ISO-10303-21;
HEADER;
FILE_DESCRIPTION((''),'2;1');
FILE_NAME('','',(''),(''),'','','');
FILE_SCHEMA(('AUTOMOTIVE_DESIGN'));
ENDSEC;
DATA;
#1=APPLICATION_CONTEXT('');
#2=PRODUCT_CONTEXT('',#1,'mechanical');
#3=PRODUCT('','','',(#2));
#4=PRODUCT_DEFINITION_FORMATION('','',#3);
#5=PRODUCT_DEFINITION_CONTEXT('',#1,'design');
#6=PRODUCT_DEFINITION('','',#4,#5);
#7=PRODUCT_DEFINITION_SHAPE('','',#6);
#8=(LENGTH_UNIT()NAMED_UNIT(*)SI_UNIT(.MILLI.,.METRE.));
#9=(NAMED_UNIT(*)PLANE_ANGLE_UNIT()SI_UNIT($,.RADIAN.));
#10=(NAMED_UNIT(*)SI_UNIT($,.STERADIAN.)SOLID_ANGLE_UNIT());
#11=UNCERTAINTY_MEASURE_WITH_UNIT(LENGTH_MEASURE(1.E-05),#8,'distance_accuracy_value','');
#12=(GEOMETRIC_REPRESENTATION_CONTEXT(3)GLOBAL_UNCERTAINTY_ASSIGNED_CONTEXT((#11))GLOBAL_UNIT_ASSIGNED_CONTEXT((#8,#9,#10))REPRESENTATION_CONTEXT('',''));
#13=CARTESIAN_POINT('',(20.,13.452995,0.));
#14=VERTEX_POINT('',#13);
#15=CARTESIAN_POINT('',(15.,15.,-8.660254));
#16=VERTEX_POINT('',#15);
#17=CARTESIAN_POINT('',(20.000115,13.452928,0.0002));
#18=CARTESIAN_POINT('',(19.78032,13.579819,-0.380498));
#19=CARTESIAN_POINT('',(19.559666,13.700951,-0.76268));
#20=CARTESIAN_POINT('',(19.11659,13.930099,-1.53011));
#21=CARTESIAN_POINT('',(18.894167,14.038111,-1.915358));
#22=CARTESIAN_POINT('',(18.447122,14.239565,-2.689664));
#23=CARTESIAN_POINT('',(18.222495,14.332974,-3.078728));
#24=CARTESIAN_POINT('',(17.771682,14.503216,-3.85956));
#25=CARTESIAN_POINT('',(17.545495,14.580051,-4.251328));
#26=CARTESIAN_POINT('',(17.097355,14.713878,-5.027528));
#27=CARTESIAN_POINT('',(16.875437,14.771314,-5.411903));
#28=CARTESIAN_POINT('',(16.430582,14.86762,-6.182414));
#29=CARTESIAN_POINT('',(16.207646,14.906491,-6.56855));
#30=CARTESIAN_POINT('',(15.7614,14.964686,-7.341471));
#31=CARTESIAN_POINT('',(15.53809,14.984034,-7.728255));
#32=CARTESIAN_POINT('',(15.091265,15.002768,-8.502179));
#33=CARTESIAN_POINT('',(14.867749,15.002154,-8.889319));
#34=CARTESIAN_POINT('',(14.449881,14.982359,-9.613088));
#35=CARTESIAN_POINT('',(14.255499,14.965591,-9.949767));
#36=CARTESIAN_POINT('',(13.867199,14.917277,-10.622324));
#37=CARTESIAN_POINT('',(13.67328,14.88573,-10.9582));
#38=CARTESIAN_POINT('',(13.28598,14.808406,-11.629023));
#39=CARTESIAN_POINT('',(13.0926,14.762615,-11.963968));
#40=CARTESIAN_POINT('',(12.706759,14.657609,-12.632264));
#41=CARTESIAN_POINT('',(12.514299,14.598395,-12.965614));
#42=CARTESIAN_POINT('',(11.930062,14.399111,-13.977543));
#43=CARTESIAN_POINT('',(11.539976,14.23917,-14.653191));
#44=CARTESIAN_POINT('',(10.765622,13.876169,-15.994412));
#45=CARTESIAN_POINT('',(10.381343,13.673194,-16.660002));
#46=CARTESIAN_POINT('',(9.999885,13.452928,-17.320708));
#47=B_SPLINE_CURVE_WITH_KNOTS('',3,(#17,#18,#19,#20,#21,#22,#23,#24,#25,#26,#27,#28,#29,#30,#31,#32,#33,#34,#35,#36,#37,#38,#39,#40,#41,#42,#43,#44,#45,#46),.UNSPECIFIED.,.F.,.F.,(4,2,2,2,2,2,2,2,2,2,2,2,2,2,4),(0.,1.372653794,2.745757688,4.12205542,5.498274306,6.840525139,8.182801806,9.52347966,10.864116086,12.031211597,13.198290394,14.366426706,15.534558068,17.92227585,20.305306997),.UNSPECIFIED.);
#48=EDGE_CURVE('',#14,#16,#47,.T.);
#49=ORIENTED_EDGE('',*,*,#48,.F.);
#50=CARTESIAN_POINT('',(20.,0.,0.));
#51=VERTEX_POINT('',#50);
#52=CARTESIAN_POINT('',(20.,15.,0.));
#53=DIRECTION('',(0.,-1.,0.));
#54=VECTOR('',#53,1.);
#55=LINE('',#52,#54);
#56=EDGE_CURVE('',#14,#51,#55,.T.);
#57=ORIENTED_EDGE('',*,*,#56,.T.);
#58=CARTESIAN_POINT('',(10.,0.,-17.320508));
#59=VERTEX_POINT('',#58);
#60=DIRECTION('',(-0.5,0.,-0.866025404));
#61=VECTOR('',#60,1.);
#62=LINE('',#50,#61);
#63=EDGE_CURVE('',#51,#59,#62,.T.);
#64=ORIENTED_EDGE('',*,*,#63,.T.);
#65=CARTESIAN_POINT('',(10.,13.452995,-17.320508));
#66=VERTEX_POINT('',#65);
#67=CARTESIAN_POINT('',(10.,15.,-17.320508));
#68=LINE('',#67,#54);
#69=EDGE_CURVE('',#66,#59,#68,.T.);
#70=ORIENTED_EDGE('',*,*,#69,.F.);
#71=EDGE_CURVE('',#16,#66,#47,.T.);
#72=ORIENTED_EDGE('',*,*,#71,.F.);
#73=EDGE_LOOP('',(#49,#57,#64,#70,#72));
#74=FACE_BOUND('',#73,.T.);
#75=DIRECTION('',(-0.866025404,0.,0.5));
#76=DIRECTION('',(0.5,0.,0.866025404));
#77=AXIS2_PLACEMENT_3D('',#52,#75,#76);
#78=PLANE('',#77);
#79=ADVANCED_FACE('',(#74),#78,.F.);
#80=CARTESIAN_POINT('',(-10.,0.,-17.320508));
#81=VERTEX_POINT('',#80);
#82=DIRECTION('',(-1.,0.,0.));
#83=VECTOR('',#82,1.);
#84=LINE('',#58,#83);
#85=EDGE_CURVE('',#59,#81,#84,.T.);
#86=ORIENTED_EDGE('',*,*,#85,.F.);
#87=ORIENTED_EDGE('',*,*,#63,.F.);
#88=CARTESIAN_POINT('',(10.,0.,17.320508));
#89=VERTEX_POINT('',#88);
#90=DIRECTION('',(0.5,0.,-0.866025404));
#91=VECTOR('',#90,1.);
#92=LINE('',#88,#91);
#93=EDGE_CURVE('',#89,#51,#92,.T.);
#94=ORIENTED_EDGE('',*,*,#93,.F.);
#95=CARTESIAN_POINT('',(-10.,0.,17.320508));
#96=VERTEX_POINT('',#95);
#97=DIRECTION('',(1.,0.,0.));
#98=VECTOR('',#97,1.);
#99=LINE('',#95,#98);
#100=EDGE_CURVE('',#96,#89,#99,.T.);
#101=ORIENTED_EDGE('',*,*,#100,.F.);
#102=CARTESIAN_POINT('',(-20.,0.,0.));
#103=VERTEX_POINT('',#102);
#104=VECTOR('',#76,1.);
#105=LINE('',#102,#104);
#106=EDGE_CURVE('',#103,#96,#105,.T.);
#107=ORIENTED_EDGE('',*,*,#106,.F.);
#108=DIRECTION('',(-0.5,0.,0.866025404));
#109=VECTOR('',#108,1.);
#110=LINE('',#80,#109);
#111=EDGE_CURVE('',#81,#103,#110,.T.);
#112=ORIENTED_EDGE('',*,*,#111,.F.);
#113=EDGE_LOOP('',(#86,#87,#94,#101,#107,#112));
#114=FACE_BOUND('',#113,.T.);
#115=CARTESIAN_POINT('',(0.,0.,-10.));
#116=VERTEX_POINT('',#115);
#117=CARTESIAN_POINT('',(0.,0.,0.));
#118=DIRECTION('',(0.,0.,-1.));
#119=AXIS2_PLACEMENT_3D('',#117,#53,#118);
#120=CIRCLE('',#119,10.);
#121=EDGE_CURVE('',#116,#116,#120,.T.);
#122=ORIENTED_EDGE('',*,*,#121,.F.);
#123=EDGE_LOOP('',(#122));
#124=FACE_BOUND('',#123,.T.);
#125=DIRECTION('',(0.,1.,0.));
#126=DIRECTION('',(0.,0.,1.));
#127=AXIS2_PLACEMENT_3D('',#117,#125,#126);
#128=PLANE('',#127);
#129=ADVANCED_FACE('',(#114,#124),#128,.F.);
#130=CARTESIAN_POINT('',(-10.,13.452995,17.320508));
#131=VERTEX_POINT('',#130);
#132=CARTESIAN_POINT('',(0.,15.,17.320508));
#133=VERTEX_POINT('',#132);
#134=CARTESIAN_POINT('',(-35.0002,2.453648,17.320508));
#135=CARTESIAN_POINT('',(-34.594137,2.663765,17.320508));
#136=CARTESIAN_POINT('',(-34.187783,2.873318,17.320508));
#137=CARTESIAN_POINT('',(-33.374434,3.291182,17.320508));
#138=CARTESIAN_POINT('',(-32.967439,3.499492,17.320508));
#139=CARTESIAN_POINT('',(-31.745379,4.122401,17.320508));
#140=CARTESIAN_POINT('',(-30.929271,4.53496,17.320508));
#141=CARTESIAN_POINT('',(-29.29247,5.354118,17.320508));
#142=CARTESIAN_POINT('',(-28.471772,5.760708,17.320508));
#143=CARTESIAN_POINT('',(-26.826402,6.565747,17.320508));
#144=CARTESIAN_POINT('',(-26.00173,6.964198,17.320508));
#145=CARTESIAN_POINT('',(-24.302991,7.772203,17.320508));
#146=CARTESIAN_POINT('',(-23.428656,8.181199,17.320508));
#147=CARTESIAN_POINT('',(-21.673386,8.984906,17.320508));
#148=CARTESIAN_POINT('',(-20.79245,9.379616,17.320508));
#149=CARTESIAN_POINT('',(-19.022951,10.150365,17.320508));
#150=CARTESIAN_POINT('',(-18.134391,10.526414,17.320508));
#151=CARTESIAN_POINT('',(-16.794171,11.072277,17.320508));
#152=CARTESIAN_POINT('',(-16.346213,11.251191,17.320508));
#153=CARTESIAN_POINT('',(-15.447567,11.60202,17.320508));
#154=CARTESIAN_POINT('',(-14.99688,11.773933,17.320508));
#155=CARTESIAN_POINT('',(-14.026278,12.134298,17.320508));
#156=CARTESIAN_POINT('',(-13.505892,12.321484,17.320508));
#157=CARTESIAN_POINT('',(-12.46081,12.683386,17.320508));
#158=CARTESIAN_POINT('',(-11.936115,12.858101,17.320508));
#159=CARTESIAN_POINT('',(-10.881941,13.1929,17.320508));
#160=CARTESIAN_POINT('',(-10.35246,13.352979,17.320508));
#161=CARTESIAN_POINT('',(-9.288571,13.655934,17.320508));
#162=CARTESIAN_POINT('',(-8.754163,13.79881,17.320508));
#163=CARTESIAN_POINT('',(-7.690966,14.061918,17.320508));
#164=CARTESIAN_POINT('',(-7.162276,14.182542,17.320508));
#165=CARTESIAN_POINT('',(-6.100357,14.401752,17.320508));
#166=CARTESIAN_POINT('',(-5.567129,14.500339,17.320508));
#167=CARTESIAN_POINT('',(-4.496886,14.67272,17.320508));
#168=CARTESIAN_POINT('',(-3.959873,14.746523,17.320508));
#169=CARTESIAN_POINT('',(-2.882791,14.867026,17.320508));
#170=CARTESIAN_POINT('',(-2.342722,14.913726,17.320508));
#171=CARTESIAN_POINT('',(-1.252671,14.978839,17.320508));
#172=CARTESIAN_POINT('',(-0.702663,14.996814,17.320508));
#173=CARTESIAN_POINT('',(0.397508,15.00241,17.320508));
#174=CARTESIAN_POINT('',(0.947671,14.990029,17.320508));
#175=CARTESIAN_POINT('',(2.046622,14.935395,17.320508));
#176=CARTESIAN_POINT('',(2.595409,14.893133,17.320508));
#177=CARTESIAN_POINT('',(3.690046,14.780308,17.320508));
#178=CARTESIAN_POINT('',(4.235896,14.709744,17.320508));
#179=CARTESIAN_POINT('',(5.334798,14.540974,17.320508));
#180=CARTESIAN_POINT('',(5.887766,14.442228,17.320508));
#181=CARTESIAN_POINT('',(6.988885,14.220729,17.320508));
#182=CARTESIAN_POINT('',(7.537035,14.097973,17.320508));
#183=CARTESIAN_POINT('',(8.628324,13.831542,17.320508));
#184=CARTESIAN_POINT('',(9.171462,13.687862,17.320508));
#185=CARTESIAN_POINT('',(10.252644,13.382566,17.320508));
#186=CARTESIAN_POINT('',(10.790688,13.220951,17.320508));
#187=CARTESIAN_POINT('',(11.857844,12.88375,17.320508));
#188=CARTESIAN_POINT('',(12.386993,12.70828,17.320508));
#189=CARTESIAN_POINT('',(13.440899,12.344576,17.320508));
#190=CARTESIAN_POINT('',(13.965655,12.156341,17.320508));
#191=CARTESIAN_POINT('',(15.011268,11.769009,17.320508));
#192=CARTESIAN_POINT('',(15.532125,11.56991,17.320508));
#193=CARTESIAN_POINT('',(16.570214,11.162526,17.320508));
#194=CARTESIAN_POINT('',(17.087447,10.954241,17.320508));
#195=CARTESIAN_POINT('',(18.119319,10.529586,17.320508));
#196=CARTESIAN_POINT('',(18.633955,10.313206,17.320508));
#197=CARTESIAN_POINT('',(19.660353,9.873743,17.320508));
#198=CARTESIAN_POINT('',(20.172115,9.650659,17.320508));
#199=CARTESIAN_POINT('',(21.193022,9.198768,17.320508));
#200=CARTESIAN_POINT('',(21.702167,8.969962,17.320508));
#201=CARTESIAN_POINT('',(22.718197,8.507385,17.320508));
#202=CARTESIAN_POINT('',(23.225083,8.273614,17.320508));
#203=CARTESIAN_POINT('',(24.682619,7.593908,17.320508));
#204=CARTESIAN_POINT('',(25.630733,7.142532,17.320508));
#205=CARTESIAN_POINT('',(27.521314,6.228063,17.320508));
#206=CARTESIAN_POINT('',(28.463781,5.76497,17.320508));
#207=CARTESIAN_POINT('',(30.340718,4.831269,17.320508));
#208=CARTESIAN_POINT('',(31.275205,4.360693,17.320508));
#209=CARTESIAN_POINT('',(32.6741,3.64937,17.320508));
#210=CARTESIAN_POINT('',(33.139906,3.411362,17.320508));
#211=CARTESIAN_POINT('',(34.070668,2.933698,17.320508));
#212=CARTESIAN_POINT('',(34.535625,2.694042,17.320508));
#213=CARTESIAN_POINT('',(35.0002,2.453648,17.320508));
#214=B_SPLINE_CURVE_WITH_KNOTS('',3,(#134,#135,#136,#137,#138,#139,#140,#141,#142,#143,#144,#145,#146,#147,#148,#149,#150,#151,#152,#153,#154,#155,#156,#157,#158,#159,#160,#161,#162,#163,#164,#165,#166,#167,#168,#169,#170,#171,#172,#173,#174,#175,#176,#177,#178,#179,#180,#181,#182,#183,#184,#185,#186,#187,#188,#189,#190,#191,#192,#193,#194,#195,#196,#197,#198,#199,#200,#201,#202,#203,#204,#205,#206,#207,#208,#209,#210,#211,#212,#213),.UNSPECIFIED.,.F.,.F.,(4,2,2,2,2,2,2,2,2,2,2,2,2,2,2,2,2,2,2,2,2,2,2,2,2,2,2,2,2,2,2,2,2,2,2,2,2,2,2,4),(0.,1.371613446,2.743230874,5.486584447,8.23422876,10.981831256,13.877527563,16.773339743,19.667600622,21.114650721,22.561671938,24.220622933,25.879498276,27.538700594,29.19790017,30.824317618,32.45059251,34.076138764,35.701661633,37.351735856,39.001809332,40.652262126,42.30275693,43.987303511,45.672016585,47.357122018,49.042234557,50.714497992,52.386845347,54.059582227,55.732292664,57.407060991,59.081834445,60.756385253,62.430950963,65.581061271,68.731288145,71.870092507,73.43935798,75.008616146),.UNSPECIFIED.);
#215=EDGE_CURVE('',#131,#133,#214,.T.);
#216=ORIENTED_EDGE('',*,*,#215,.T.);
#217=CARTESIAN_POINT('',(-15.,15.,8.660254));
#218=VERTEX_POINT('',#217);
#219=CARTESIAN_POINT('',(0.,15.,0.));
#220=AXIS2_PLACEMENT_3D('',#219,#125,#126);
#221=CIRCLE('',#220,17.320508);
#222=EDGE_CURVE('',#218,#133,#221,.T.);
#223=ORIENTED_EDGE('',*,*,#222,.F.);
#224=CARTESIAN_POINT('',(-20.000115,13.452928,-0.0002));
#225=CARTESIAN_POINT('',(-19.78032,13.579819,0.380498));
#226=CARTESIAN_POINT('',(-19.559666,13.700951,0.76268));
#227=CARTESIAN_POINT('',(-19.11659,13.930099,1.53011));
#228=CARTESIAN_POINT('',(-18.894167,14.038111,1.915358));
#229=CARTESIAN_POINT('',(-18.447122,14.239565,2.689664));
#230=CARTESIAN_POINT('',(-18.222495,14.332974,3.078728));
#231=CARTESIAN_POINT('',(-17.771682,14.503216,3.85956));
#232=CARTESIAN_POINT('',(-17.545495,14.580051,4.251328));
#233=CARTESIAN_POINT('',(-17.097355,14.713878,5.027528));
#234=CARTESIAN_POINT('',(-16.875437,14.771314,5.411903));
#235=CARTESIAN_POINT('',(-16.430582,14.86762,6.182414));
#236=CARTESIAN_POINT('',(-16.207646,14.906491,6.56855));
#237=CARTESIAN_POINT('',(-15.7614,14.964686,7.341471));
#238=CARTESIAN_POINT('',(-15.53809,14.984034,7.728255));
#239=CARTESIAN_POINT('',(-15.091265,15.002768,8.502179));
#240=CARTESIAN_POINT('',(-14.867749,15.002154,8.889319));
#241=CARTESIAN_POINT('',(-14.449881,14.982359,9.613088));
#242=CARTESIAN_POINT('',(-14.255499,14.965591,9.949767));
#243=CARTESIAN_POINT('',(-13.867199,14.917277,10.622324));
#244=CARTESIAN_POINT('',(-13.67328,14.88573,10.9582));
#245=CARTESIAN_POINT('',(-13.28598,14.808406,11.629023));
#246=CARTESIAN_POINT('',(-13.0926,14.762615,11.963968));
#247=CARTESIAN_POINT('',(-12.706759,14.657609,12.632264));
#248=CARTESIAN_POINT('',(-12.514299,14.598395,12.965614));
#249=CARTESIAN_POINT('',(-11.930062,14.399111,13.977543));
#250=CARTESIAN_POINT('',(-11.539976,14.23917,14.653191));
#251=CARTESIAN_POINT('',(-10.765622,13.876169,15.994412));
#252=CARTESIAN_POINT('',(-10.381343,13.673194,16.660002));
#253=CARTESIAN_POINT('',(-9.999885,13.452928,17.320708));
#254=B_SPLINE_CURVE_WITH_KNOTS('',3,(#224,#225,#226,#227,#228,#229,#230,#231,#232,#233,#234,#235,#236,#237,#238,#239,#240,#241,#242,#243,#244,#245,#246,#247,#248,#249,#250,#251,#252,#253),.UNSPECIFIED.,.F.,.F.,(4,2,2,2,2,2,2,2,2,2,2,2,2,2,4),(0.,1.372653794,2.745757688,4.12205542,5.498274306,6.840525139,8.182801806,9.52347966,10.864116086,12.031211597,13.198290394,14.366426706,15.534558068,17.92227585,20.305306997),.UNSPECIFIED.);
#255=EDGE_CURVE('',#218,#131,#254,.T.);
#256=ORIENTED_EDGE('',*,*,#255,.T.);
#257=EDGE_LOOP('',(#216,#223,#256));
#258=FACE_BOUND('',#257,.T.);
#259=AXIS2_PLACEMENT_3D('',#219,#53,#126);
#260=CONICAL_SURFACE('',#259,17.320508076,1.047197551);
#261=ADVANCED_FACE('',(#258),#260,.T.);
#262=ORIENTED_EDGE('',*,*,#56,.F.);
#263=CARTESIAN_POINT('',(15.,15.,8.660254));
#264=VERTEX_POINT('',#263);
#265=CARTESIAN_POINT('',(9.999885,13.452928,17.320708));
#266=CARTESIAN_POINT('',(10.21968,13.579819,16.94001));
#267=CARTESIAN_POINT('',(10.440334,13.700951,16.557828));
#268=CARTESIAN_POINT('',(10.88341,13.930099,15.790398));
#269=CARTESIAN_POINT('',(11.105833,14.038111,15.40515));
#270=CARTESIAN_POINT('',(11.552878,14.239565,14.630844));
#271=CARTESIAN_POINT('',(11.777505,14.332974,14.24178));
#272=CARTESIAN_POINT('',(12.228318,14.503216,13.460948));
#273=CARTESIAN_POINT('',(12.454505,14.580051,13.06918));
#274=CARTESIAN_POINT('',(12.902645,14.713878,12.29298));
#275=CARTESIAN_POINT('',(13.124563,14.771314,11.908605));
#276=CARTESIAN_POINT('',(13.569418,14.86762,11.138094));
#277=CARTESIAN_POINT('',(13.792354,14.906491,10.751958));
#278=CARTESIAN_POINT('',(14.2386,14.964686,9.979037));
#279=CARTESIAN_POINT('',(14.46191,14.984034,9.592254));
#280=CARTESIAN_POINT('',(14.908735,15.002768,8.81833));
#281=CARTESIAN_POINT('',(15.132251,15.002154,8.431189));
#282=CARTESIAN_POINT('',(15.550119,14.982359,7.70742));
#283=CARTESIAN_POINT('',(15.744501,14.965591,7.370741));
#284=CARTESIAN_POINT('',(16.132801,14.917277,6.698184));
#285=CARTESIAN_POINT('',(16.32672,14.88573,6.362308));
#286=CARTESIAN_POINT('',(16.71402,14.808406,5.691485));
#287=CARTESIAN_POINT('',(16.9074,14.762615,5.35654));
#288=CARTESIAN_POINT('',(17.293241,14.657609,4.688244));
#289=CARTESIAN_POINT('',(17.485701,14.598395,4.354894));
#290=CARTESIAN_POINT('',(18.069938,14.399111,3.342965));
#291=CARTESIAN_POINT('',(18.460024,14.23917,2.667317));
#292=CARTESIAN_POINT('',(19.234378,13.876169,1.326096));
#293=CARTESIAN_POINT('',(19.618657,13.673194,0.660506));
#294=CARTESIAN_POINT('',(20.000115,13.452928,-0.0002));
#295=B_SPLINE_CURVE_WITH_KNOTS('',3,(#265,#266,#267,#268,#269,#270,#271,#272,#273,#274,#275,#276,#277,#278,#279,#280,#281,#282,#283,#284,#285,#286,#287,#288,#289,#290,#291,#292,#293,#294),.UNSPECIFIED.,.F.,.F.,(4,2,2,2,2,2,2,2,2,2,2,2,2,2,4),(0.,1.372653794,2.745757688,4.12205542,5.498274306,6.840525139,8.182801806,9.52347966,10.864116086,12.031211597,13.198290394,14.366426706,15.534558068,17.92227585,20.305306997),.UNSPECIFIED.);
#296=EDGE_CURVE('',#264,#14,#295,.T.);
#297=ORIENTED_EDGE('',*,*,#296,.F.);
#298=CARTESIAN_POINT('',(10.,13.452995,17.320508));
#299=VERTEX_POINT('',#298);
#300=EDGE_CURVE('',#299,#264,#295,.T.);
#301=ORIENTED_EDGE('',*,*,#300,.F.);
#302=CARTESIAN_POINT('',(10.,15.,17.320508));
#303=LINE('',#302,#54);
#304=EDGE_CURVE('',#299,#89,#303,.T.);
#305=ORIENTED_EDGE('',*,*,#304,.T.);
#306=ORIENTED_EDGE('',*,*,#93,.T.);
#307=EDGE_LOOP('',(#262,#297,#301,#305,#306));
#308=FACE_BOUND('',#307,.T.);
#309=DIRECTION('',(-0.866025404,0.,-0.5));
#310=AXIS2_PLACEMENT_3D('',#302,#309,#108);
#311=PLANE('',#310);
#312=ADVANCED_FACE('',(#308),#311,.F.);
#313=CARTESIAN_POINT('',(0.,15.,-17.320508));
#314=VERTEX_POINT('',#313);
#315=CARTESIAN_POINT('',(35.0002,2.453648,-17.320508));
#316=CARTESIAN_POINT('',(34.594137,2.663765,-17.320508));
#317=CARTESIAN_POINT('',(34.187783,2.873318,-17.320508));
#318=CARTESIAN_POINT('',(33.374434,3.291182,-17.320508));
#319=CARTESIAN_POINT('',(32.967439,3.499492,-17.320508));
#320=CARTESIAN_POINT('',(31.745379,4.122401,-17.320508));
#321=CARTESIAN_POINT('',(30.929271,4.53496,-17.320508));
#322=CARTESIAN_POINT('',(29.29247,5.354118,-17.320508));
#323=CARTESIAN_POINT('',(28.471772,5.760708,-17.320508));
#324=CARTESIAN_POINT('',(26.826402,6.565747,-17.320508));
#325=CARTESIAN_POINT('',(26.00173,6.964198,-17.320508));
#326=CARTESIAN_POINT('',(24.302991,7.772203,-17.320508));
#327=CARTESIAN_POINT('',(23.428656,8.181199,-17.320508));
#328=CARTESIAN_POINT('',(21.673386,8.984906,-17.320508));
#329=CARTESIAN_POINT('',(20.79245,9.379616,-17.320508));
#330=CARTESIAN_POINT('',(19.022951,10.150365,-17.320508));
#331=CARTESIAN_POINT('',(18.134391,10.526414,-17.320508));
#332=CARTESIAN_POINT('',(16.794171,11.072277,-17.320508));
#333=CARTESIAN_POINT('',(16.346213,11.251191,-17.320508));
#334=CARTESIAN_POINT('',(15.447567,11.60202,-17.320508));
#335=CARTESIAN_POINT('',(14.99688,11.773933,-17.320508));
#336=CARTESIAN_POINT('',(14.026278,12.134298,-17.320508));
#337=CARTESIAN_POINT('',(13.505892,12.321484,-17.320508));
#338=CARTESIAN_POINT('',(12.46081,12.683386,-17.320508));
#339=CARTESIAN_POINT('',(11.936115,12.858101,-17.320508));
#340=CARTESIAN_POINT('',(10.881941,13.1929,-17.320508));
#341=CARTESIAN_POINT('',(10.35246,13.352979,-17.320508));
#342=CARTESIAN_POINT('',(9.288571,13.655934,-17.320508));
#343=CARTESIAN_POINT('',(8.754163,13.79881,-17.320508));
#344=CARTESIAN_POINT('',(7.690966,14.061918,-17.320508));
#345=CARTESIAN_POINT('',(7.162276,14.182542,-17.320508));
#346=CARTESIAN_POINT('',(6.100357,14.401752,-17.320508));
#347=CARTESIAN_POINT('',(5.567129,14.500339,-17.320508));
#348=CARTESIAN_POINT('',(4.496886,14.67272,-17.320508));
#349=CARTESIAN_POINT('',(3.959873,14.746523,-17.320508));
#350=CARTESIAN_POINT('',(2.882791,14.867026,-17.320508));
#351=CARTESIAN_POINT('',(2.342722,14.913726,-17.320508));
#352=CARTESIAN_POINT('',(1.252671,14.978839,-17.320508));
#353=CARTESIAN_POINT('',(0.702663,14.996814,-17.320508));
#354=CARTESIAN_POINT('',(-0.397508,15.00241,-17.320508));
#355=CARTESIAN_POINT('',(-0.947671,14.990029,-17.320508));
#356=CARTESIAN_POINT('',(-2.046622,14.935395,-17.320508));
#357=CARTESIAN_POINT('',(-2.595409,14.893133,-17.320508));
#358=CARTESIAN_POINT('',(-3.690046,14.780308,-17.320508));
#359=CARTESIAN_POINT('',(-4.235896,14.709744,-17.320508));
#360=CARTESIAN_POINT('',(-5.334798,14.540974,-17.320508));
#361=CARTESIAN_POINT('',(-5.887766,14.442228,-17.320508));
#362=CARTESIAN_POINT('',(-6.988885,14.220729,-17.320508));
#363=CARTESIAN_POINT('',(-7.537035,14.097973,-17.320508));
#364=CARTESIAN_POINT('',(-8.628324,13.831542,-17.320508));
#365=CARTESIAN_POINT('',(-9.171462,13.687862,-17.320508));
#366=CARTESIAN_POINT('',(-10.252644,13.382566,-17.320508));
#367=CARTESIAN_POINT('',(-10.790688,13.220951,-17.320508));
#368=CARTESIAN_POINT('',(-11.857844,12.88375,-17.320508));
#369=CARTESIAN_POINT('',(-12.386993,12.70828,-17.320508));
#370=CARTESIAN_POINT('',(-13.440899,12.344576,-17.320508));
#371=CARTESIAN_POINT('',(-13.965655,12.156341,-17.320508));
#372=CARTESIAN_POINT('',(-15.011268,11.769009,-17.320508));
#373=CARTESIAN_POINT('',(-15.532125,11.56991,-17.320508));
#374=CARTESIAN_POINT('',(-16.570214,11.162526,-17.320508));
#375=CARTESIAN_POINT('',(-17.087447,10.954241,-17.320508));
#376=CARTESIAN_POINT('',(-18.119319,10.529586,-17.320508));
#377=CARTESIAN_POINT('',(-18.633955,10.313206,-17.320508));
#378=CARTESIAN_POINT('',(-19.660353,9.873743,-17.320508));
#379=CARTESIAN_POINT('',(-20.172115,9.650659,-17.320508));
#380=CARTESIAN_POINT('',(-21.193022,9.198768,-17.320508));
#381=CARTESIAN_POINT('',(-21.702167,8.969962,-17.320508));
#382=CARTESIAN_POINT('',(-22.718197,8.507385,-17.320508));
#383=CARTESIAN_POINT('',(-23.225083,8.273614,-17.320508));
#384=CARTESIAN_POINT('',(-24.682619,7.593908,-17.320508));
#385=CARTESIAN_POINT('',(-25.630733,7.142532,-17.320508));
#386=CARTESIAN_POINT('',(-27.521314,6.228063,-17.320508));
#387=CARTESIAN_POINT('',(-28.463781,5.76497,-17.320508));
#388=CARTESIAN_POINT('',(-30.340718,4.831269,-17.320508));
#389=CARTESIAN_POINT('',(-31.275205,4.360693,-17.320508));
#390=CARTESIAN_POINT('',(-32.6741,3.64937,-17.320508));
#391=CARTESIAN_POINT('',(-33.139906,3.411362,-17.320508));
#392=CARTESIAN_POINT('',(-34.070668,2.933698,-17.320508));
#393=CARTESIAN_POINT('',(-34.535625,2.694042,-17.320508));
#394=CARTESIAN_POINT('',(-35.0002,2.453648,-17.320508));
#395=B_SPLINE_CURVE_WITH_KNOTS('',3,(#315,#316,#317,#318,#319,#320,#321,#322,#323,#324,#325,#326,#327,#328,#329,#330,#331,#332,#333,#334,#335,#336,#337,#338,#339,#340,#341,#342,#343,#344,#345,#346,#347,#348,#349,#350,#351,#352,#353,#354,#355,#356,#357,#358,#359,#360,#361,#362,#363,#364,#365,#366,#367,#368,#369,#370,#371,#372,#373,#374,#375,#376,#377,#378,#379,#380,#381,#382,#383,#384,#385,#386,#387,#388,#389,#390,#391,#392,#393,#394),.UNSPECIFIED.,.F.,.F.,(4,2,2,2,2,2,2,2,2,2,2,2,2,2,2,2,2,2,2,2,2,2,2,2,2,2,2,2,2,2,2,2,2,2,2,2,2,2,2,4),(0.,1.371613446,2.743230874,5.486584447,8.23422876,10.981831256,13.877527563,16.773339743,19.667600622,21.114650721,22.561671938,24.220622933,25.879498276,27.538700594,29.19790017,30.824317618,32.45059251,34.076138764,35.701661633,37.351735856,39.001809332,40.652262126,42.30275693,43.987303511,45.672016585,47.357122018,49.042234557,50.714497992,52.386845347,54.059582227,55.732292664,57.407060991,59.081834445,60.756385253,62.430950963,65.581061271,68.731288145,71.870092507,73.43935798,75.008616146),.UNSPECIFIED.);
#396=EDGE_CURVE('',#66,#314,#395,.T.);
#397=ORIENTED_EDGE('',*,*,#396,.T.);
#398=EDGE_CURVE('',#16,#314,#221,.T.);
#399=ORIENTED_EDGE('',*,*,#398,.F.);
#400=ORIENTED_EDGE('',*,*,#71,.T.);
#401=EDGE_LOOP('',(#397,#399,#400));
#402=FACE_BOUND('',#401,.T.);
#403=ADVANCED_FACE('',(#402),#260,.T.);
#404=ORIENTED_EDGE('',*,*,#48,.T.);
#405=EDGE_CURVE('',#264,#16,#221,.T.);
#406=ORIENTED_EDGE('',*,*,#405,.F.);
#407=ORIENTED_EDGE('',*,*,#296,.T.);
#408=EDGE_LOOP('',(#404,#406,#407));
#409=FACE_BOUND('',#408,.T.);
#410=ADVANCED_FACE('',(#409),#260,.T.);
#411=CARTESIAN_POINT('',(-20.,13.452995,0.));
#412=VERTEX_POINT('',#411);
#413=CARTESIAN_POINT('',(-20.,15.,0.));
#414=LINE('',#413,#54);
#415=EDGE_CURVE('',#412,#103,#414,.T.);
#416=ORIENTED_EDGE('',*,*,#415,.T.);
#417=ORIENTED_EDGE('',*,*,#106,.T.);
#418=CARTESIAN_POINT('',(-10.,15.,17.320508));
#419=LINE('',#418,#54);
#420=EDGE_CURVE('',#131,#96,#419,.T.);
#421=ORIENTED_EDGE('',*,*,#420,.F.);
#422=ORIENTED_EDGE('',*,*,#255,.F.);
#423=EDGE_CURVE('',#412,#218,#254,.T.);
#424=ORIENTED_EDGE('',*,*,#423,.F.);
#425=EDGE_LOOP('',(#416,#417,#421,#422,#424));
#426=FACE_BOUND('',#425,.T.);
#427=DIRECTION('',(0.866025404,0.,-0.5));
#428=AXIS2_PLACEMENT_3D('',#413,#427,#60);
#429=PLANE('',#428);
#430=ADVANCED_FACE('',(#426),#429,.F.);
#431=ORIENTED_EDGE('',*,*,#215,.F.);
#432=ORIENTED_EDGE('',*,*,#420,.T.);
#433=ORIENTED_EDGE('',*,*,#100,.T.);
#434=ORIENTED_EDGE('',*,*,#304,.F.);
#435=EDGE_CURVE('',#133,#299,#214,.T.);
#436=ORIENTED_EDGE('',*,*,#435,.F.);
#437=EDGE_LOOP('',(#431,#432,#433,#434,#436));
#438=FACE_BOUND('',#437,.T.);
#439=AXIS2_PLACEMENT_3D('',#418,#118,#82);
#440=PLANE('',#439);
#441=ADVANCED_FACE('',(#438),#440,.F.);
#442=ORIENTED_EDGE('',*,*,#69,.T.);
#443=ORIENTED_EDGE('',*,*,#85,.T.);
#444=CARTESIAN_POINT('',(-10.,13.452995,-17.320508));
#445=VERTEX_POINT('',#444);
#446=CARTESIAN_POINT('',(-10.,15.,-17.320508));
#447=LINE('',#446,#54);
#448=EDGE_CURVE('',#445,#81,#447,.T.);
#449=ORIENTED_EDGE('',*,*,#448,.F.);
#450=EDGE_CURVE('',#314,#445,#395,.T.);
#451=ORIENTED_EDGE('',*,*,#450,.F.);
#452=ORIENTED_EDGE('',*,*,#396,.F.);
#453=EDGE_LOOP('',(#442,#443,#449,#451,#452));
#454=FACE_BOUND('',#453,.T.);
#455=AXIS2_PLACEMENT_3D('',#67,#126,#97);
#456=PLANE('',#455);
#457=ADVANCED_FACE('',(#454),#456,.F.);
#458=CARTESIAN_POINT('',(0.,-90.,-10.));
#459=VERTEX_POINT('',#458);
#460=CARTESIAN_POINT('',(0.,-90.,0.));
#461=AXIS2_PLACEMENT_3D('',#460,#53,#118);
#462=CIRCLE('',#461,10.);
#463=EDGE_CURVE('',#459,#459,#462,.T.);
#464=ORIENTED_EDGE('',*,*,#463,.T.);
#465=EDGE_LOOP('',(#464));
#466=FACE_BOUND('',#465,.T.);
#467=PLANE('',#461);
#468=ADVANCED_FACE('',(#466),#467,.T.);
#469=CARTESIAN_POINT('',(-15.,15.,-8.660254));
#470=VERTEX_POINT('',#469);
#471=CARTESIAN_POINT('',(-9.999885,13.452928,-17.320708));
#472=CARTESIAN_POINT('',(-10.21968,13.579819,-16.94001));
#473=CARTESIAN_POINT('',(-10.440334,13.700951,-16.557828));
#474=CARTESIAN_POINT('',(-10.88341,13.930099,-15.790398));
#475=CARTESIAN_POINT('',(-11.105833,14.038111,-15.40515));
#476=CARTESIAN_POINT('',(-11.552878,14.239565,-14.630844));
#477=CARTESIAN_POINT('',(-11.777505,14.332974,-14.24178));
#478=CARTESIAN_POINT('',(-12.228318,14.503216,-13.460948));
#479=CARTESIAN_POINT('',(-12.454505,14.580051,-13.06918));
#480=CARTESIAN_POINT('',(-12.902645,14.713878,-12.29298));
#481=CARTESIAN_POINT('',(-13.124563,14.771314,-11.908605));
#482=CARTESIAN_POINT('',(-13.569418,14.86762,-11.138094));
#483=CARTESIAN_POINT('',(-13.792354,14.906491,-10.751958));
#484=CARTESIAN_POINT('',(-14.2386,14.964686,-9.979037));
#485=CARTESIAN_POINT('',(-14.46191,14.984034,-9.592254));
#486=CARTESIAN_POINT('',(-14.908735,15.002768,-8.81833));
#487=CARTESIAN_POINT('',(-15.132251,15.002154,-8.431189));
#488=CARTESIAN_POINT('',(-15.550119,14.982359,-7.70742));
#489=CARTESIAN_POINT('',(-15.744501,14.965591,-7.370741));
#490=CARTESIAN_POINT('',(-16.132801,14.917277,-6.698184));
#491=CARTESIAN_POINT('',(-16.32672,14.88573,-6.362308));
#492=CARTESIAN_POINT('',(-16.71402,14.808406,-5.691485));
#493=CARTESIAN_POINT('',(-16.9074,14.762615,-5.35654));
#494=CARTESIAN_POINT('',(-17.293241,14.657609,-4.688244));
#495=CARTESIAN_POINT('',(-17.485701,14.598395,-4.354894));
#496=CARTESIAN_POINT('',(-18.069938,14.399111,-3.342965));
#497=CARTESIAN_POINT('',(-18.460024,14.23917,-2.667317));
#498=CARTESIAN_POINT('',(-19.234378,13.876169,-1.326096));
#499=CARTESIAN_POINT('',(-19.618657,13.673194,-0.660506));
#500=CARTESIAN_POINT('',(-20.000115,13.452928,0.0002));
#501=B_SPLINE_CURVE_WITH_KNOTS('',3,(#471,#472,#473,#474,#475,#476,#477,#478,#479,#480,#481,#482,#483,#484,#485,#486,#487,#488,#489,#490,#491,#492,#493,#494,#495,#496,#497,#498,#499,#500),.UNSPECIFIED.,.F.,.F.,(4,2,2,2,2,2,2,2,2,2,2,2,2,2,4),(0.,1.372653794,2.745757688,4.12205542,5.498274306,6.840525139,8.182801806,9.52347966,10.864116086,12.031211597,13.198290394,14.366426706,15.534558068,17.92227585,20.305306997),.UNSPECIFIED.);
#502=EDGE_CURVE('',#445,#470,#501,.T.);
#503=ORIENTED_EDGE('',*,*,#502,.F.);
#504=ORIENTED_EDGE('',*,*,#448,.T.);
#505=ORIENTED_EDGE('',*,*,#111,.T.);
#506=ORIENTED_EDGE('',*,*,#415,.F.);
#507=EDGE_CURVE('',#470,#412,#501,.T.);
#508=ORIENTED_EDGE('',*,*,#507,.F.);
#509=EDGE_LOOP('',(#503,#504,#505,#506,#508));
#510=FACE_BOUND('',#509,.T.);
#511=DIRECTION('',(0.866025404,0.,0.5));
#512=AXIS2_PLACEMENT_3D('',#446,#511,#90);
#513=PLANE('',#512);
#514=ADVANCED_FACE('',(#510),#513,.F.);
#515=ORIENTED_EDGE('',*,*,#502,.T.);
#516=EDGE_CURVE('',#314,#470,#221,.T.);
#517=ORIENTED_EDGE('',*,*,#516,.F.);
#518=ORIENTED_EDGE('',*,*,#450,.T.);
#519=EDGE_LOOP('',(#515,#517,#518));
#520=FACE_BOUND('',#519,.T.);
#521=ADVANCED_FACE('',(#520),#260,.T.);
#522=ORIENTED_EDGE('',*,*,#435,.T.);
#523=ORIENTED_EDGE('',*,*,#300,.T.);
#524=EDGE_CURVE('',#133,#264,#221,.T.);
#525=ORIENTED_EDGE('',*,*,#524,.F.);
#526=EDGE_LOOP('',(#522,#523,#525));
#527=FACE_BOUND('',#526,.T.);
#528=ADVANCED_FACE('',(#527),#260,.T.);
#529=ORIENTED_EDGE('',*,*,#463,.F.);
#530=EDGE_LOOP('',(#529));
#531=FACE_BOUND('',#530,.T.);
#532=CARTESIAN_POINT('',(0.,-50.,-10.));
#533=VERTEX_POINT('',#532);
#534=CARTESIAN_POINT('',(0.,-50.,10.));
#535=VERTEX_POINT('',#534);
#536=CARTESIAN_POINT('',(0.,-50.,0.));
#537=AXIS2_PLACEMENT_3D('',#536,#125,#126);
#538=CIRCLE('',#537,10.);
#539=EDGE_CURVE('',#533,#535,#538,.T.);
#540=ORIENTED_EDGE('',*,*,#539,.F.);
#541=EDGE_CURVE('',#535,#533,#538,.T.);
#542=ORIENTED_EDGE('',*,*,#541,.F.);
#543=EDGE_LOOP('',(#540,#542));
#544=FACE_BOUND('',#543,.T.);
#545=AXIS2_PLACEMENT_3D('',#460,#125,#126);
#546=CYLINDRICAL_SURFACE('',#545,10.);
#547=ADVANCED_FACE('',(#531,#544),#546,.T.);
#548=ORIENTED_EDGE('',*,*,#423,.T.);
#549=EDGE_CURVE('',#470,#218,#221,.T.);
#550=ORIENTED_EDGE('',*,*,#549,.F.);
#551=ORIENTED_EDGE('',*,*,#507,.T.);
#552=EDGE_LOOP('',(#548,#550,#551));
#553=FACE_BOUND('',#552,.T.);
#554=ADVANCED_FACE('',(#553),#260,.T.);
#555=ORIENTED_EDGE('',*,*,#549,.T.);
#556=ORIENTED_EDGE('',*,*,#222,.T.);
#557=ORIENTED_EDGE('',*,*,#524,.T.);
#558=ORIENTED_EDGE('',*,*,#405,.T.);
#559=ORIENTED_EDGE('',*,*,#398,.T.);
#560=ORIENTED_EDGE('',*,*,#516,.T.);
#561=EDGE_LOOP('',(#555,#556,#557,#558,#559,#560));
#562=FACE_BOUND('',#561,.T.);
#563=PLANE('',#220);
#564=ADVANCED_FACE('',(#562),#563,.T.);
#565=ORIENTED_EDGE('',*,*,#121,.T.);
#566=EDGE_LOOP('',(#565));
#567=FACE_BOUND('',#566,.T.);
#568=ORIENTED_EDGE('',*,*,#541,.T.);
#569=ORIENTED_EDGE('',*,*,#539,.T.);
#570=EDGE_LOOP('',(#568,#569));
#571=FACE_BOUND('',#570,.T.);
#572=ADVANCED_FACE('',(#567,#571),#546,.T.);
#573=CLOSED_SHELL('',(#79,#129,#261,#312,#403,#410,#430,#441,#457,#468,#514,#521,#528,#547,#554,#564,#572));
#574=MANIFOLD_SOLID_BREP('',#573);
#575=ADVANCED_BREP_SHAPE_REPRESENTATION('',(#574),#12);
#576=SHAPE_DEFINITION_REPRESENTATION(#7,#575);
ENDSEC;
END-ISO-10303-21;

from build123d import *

# Parameters (mm, degrees)
BOSS_EXTRUDE1_DEPTH = 15
SKETCH2_R           = 10
BOSS_EXTRUDE2_DEPTH = 90
SKETCH3_OUTSIDE_W   = 444.08
SKETCH3_OUTSIDE_H   = 438.722
SKETCH3_OUTSIDE_R   = 17.320508076
CUT_EXTRUDE2_DEPTH  = 109.282039139
CUT_EXTRUDE2_DRAFT  = -60


with BuildPart() as part:
    # Sketch1 → Boss-Extrude1 (new body)
    with BuildSketch(Plane(origin=(0, 0, 0), x_dir=(1, 0, 0), z_dir=(0, 1, 0))):
        Polygon((10, -17.320508076), (20, 0), (10, 17.320508076), (-10, 17.320508076), (-20, 0), (-10, -17.320508076), align=None)
    extrude(amount=BOSS_EXTRUDE1_DEPTH)

    # Sketch2 → Boss-Extrude2 (add)
    with BuildSketch(Plane.XZ):
        with Locations(Location((0, 0, 0), (0, 0, 90))):
            Circle(SKETCH2_R)
    extrude(amount=BOSS_EXTRUDE2_DEPTH)


with BuildPart() as cut_extrude2_tool:
    # Sketch3 outside → Cut-Extrude2 (with draft: the straight prism first)
    with BuildSketch(Plane(origin=(0, 15, 0), x_dir=(1, 0, 0), z_dir=(0, 1, 0))):
        Rectangle(SKETCH3_OUTSIDE_W, SKETCH3_OUTSIDE_H)
        Circle(SKETCH3_OUTSIDE_R, mode=Mode.SUBTRACT)
    extrude(amount=-CUT_EXTRUDE2_DEPTH)
    # Cut-Extrude2: the draft: its side faces are tilted about the plane it starts from
    cut_extrude2_sides = [cut_extrude2_tool.faces().sort_by_distance(p)[0] for p in [
        (0, -39.641019569, 219.361),
        (222.04, -39.641019569, 0),
        (0, -39.641019569, -219.361),
        (-222.04, -39.641019569, 0),
        (-17.320508076, -39.641019569, 0),
    ]]
    draft(cut_extrude2_sides, Plane(origin=(0, 15, 0), x_dir=(1, 0, 0), z_dir=(0, 1, 0)), CUT_EXTRUDE2_DRAFT)


with BuildPart() as part_1:
    add(part.part)

    # Cut-Extrude2: cut by cut_extrude2_tool
    add(cut_extrude2_tool.part, mode=Mode.SUBTRACT)


solid = part_1.part
